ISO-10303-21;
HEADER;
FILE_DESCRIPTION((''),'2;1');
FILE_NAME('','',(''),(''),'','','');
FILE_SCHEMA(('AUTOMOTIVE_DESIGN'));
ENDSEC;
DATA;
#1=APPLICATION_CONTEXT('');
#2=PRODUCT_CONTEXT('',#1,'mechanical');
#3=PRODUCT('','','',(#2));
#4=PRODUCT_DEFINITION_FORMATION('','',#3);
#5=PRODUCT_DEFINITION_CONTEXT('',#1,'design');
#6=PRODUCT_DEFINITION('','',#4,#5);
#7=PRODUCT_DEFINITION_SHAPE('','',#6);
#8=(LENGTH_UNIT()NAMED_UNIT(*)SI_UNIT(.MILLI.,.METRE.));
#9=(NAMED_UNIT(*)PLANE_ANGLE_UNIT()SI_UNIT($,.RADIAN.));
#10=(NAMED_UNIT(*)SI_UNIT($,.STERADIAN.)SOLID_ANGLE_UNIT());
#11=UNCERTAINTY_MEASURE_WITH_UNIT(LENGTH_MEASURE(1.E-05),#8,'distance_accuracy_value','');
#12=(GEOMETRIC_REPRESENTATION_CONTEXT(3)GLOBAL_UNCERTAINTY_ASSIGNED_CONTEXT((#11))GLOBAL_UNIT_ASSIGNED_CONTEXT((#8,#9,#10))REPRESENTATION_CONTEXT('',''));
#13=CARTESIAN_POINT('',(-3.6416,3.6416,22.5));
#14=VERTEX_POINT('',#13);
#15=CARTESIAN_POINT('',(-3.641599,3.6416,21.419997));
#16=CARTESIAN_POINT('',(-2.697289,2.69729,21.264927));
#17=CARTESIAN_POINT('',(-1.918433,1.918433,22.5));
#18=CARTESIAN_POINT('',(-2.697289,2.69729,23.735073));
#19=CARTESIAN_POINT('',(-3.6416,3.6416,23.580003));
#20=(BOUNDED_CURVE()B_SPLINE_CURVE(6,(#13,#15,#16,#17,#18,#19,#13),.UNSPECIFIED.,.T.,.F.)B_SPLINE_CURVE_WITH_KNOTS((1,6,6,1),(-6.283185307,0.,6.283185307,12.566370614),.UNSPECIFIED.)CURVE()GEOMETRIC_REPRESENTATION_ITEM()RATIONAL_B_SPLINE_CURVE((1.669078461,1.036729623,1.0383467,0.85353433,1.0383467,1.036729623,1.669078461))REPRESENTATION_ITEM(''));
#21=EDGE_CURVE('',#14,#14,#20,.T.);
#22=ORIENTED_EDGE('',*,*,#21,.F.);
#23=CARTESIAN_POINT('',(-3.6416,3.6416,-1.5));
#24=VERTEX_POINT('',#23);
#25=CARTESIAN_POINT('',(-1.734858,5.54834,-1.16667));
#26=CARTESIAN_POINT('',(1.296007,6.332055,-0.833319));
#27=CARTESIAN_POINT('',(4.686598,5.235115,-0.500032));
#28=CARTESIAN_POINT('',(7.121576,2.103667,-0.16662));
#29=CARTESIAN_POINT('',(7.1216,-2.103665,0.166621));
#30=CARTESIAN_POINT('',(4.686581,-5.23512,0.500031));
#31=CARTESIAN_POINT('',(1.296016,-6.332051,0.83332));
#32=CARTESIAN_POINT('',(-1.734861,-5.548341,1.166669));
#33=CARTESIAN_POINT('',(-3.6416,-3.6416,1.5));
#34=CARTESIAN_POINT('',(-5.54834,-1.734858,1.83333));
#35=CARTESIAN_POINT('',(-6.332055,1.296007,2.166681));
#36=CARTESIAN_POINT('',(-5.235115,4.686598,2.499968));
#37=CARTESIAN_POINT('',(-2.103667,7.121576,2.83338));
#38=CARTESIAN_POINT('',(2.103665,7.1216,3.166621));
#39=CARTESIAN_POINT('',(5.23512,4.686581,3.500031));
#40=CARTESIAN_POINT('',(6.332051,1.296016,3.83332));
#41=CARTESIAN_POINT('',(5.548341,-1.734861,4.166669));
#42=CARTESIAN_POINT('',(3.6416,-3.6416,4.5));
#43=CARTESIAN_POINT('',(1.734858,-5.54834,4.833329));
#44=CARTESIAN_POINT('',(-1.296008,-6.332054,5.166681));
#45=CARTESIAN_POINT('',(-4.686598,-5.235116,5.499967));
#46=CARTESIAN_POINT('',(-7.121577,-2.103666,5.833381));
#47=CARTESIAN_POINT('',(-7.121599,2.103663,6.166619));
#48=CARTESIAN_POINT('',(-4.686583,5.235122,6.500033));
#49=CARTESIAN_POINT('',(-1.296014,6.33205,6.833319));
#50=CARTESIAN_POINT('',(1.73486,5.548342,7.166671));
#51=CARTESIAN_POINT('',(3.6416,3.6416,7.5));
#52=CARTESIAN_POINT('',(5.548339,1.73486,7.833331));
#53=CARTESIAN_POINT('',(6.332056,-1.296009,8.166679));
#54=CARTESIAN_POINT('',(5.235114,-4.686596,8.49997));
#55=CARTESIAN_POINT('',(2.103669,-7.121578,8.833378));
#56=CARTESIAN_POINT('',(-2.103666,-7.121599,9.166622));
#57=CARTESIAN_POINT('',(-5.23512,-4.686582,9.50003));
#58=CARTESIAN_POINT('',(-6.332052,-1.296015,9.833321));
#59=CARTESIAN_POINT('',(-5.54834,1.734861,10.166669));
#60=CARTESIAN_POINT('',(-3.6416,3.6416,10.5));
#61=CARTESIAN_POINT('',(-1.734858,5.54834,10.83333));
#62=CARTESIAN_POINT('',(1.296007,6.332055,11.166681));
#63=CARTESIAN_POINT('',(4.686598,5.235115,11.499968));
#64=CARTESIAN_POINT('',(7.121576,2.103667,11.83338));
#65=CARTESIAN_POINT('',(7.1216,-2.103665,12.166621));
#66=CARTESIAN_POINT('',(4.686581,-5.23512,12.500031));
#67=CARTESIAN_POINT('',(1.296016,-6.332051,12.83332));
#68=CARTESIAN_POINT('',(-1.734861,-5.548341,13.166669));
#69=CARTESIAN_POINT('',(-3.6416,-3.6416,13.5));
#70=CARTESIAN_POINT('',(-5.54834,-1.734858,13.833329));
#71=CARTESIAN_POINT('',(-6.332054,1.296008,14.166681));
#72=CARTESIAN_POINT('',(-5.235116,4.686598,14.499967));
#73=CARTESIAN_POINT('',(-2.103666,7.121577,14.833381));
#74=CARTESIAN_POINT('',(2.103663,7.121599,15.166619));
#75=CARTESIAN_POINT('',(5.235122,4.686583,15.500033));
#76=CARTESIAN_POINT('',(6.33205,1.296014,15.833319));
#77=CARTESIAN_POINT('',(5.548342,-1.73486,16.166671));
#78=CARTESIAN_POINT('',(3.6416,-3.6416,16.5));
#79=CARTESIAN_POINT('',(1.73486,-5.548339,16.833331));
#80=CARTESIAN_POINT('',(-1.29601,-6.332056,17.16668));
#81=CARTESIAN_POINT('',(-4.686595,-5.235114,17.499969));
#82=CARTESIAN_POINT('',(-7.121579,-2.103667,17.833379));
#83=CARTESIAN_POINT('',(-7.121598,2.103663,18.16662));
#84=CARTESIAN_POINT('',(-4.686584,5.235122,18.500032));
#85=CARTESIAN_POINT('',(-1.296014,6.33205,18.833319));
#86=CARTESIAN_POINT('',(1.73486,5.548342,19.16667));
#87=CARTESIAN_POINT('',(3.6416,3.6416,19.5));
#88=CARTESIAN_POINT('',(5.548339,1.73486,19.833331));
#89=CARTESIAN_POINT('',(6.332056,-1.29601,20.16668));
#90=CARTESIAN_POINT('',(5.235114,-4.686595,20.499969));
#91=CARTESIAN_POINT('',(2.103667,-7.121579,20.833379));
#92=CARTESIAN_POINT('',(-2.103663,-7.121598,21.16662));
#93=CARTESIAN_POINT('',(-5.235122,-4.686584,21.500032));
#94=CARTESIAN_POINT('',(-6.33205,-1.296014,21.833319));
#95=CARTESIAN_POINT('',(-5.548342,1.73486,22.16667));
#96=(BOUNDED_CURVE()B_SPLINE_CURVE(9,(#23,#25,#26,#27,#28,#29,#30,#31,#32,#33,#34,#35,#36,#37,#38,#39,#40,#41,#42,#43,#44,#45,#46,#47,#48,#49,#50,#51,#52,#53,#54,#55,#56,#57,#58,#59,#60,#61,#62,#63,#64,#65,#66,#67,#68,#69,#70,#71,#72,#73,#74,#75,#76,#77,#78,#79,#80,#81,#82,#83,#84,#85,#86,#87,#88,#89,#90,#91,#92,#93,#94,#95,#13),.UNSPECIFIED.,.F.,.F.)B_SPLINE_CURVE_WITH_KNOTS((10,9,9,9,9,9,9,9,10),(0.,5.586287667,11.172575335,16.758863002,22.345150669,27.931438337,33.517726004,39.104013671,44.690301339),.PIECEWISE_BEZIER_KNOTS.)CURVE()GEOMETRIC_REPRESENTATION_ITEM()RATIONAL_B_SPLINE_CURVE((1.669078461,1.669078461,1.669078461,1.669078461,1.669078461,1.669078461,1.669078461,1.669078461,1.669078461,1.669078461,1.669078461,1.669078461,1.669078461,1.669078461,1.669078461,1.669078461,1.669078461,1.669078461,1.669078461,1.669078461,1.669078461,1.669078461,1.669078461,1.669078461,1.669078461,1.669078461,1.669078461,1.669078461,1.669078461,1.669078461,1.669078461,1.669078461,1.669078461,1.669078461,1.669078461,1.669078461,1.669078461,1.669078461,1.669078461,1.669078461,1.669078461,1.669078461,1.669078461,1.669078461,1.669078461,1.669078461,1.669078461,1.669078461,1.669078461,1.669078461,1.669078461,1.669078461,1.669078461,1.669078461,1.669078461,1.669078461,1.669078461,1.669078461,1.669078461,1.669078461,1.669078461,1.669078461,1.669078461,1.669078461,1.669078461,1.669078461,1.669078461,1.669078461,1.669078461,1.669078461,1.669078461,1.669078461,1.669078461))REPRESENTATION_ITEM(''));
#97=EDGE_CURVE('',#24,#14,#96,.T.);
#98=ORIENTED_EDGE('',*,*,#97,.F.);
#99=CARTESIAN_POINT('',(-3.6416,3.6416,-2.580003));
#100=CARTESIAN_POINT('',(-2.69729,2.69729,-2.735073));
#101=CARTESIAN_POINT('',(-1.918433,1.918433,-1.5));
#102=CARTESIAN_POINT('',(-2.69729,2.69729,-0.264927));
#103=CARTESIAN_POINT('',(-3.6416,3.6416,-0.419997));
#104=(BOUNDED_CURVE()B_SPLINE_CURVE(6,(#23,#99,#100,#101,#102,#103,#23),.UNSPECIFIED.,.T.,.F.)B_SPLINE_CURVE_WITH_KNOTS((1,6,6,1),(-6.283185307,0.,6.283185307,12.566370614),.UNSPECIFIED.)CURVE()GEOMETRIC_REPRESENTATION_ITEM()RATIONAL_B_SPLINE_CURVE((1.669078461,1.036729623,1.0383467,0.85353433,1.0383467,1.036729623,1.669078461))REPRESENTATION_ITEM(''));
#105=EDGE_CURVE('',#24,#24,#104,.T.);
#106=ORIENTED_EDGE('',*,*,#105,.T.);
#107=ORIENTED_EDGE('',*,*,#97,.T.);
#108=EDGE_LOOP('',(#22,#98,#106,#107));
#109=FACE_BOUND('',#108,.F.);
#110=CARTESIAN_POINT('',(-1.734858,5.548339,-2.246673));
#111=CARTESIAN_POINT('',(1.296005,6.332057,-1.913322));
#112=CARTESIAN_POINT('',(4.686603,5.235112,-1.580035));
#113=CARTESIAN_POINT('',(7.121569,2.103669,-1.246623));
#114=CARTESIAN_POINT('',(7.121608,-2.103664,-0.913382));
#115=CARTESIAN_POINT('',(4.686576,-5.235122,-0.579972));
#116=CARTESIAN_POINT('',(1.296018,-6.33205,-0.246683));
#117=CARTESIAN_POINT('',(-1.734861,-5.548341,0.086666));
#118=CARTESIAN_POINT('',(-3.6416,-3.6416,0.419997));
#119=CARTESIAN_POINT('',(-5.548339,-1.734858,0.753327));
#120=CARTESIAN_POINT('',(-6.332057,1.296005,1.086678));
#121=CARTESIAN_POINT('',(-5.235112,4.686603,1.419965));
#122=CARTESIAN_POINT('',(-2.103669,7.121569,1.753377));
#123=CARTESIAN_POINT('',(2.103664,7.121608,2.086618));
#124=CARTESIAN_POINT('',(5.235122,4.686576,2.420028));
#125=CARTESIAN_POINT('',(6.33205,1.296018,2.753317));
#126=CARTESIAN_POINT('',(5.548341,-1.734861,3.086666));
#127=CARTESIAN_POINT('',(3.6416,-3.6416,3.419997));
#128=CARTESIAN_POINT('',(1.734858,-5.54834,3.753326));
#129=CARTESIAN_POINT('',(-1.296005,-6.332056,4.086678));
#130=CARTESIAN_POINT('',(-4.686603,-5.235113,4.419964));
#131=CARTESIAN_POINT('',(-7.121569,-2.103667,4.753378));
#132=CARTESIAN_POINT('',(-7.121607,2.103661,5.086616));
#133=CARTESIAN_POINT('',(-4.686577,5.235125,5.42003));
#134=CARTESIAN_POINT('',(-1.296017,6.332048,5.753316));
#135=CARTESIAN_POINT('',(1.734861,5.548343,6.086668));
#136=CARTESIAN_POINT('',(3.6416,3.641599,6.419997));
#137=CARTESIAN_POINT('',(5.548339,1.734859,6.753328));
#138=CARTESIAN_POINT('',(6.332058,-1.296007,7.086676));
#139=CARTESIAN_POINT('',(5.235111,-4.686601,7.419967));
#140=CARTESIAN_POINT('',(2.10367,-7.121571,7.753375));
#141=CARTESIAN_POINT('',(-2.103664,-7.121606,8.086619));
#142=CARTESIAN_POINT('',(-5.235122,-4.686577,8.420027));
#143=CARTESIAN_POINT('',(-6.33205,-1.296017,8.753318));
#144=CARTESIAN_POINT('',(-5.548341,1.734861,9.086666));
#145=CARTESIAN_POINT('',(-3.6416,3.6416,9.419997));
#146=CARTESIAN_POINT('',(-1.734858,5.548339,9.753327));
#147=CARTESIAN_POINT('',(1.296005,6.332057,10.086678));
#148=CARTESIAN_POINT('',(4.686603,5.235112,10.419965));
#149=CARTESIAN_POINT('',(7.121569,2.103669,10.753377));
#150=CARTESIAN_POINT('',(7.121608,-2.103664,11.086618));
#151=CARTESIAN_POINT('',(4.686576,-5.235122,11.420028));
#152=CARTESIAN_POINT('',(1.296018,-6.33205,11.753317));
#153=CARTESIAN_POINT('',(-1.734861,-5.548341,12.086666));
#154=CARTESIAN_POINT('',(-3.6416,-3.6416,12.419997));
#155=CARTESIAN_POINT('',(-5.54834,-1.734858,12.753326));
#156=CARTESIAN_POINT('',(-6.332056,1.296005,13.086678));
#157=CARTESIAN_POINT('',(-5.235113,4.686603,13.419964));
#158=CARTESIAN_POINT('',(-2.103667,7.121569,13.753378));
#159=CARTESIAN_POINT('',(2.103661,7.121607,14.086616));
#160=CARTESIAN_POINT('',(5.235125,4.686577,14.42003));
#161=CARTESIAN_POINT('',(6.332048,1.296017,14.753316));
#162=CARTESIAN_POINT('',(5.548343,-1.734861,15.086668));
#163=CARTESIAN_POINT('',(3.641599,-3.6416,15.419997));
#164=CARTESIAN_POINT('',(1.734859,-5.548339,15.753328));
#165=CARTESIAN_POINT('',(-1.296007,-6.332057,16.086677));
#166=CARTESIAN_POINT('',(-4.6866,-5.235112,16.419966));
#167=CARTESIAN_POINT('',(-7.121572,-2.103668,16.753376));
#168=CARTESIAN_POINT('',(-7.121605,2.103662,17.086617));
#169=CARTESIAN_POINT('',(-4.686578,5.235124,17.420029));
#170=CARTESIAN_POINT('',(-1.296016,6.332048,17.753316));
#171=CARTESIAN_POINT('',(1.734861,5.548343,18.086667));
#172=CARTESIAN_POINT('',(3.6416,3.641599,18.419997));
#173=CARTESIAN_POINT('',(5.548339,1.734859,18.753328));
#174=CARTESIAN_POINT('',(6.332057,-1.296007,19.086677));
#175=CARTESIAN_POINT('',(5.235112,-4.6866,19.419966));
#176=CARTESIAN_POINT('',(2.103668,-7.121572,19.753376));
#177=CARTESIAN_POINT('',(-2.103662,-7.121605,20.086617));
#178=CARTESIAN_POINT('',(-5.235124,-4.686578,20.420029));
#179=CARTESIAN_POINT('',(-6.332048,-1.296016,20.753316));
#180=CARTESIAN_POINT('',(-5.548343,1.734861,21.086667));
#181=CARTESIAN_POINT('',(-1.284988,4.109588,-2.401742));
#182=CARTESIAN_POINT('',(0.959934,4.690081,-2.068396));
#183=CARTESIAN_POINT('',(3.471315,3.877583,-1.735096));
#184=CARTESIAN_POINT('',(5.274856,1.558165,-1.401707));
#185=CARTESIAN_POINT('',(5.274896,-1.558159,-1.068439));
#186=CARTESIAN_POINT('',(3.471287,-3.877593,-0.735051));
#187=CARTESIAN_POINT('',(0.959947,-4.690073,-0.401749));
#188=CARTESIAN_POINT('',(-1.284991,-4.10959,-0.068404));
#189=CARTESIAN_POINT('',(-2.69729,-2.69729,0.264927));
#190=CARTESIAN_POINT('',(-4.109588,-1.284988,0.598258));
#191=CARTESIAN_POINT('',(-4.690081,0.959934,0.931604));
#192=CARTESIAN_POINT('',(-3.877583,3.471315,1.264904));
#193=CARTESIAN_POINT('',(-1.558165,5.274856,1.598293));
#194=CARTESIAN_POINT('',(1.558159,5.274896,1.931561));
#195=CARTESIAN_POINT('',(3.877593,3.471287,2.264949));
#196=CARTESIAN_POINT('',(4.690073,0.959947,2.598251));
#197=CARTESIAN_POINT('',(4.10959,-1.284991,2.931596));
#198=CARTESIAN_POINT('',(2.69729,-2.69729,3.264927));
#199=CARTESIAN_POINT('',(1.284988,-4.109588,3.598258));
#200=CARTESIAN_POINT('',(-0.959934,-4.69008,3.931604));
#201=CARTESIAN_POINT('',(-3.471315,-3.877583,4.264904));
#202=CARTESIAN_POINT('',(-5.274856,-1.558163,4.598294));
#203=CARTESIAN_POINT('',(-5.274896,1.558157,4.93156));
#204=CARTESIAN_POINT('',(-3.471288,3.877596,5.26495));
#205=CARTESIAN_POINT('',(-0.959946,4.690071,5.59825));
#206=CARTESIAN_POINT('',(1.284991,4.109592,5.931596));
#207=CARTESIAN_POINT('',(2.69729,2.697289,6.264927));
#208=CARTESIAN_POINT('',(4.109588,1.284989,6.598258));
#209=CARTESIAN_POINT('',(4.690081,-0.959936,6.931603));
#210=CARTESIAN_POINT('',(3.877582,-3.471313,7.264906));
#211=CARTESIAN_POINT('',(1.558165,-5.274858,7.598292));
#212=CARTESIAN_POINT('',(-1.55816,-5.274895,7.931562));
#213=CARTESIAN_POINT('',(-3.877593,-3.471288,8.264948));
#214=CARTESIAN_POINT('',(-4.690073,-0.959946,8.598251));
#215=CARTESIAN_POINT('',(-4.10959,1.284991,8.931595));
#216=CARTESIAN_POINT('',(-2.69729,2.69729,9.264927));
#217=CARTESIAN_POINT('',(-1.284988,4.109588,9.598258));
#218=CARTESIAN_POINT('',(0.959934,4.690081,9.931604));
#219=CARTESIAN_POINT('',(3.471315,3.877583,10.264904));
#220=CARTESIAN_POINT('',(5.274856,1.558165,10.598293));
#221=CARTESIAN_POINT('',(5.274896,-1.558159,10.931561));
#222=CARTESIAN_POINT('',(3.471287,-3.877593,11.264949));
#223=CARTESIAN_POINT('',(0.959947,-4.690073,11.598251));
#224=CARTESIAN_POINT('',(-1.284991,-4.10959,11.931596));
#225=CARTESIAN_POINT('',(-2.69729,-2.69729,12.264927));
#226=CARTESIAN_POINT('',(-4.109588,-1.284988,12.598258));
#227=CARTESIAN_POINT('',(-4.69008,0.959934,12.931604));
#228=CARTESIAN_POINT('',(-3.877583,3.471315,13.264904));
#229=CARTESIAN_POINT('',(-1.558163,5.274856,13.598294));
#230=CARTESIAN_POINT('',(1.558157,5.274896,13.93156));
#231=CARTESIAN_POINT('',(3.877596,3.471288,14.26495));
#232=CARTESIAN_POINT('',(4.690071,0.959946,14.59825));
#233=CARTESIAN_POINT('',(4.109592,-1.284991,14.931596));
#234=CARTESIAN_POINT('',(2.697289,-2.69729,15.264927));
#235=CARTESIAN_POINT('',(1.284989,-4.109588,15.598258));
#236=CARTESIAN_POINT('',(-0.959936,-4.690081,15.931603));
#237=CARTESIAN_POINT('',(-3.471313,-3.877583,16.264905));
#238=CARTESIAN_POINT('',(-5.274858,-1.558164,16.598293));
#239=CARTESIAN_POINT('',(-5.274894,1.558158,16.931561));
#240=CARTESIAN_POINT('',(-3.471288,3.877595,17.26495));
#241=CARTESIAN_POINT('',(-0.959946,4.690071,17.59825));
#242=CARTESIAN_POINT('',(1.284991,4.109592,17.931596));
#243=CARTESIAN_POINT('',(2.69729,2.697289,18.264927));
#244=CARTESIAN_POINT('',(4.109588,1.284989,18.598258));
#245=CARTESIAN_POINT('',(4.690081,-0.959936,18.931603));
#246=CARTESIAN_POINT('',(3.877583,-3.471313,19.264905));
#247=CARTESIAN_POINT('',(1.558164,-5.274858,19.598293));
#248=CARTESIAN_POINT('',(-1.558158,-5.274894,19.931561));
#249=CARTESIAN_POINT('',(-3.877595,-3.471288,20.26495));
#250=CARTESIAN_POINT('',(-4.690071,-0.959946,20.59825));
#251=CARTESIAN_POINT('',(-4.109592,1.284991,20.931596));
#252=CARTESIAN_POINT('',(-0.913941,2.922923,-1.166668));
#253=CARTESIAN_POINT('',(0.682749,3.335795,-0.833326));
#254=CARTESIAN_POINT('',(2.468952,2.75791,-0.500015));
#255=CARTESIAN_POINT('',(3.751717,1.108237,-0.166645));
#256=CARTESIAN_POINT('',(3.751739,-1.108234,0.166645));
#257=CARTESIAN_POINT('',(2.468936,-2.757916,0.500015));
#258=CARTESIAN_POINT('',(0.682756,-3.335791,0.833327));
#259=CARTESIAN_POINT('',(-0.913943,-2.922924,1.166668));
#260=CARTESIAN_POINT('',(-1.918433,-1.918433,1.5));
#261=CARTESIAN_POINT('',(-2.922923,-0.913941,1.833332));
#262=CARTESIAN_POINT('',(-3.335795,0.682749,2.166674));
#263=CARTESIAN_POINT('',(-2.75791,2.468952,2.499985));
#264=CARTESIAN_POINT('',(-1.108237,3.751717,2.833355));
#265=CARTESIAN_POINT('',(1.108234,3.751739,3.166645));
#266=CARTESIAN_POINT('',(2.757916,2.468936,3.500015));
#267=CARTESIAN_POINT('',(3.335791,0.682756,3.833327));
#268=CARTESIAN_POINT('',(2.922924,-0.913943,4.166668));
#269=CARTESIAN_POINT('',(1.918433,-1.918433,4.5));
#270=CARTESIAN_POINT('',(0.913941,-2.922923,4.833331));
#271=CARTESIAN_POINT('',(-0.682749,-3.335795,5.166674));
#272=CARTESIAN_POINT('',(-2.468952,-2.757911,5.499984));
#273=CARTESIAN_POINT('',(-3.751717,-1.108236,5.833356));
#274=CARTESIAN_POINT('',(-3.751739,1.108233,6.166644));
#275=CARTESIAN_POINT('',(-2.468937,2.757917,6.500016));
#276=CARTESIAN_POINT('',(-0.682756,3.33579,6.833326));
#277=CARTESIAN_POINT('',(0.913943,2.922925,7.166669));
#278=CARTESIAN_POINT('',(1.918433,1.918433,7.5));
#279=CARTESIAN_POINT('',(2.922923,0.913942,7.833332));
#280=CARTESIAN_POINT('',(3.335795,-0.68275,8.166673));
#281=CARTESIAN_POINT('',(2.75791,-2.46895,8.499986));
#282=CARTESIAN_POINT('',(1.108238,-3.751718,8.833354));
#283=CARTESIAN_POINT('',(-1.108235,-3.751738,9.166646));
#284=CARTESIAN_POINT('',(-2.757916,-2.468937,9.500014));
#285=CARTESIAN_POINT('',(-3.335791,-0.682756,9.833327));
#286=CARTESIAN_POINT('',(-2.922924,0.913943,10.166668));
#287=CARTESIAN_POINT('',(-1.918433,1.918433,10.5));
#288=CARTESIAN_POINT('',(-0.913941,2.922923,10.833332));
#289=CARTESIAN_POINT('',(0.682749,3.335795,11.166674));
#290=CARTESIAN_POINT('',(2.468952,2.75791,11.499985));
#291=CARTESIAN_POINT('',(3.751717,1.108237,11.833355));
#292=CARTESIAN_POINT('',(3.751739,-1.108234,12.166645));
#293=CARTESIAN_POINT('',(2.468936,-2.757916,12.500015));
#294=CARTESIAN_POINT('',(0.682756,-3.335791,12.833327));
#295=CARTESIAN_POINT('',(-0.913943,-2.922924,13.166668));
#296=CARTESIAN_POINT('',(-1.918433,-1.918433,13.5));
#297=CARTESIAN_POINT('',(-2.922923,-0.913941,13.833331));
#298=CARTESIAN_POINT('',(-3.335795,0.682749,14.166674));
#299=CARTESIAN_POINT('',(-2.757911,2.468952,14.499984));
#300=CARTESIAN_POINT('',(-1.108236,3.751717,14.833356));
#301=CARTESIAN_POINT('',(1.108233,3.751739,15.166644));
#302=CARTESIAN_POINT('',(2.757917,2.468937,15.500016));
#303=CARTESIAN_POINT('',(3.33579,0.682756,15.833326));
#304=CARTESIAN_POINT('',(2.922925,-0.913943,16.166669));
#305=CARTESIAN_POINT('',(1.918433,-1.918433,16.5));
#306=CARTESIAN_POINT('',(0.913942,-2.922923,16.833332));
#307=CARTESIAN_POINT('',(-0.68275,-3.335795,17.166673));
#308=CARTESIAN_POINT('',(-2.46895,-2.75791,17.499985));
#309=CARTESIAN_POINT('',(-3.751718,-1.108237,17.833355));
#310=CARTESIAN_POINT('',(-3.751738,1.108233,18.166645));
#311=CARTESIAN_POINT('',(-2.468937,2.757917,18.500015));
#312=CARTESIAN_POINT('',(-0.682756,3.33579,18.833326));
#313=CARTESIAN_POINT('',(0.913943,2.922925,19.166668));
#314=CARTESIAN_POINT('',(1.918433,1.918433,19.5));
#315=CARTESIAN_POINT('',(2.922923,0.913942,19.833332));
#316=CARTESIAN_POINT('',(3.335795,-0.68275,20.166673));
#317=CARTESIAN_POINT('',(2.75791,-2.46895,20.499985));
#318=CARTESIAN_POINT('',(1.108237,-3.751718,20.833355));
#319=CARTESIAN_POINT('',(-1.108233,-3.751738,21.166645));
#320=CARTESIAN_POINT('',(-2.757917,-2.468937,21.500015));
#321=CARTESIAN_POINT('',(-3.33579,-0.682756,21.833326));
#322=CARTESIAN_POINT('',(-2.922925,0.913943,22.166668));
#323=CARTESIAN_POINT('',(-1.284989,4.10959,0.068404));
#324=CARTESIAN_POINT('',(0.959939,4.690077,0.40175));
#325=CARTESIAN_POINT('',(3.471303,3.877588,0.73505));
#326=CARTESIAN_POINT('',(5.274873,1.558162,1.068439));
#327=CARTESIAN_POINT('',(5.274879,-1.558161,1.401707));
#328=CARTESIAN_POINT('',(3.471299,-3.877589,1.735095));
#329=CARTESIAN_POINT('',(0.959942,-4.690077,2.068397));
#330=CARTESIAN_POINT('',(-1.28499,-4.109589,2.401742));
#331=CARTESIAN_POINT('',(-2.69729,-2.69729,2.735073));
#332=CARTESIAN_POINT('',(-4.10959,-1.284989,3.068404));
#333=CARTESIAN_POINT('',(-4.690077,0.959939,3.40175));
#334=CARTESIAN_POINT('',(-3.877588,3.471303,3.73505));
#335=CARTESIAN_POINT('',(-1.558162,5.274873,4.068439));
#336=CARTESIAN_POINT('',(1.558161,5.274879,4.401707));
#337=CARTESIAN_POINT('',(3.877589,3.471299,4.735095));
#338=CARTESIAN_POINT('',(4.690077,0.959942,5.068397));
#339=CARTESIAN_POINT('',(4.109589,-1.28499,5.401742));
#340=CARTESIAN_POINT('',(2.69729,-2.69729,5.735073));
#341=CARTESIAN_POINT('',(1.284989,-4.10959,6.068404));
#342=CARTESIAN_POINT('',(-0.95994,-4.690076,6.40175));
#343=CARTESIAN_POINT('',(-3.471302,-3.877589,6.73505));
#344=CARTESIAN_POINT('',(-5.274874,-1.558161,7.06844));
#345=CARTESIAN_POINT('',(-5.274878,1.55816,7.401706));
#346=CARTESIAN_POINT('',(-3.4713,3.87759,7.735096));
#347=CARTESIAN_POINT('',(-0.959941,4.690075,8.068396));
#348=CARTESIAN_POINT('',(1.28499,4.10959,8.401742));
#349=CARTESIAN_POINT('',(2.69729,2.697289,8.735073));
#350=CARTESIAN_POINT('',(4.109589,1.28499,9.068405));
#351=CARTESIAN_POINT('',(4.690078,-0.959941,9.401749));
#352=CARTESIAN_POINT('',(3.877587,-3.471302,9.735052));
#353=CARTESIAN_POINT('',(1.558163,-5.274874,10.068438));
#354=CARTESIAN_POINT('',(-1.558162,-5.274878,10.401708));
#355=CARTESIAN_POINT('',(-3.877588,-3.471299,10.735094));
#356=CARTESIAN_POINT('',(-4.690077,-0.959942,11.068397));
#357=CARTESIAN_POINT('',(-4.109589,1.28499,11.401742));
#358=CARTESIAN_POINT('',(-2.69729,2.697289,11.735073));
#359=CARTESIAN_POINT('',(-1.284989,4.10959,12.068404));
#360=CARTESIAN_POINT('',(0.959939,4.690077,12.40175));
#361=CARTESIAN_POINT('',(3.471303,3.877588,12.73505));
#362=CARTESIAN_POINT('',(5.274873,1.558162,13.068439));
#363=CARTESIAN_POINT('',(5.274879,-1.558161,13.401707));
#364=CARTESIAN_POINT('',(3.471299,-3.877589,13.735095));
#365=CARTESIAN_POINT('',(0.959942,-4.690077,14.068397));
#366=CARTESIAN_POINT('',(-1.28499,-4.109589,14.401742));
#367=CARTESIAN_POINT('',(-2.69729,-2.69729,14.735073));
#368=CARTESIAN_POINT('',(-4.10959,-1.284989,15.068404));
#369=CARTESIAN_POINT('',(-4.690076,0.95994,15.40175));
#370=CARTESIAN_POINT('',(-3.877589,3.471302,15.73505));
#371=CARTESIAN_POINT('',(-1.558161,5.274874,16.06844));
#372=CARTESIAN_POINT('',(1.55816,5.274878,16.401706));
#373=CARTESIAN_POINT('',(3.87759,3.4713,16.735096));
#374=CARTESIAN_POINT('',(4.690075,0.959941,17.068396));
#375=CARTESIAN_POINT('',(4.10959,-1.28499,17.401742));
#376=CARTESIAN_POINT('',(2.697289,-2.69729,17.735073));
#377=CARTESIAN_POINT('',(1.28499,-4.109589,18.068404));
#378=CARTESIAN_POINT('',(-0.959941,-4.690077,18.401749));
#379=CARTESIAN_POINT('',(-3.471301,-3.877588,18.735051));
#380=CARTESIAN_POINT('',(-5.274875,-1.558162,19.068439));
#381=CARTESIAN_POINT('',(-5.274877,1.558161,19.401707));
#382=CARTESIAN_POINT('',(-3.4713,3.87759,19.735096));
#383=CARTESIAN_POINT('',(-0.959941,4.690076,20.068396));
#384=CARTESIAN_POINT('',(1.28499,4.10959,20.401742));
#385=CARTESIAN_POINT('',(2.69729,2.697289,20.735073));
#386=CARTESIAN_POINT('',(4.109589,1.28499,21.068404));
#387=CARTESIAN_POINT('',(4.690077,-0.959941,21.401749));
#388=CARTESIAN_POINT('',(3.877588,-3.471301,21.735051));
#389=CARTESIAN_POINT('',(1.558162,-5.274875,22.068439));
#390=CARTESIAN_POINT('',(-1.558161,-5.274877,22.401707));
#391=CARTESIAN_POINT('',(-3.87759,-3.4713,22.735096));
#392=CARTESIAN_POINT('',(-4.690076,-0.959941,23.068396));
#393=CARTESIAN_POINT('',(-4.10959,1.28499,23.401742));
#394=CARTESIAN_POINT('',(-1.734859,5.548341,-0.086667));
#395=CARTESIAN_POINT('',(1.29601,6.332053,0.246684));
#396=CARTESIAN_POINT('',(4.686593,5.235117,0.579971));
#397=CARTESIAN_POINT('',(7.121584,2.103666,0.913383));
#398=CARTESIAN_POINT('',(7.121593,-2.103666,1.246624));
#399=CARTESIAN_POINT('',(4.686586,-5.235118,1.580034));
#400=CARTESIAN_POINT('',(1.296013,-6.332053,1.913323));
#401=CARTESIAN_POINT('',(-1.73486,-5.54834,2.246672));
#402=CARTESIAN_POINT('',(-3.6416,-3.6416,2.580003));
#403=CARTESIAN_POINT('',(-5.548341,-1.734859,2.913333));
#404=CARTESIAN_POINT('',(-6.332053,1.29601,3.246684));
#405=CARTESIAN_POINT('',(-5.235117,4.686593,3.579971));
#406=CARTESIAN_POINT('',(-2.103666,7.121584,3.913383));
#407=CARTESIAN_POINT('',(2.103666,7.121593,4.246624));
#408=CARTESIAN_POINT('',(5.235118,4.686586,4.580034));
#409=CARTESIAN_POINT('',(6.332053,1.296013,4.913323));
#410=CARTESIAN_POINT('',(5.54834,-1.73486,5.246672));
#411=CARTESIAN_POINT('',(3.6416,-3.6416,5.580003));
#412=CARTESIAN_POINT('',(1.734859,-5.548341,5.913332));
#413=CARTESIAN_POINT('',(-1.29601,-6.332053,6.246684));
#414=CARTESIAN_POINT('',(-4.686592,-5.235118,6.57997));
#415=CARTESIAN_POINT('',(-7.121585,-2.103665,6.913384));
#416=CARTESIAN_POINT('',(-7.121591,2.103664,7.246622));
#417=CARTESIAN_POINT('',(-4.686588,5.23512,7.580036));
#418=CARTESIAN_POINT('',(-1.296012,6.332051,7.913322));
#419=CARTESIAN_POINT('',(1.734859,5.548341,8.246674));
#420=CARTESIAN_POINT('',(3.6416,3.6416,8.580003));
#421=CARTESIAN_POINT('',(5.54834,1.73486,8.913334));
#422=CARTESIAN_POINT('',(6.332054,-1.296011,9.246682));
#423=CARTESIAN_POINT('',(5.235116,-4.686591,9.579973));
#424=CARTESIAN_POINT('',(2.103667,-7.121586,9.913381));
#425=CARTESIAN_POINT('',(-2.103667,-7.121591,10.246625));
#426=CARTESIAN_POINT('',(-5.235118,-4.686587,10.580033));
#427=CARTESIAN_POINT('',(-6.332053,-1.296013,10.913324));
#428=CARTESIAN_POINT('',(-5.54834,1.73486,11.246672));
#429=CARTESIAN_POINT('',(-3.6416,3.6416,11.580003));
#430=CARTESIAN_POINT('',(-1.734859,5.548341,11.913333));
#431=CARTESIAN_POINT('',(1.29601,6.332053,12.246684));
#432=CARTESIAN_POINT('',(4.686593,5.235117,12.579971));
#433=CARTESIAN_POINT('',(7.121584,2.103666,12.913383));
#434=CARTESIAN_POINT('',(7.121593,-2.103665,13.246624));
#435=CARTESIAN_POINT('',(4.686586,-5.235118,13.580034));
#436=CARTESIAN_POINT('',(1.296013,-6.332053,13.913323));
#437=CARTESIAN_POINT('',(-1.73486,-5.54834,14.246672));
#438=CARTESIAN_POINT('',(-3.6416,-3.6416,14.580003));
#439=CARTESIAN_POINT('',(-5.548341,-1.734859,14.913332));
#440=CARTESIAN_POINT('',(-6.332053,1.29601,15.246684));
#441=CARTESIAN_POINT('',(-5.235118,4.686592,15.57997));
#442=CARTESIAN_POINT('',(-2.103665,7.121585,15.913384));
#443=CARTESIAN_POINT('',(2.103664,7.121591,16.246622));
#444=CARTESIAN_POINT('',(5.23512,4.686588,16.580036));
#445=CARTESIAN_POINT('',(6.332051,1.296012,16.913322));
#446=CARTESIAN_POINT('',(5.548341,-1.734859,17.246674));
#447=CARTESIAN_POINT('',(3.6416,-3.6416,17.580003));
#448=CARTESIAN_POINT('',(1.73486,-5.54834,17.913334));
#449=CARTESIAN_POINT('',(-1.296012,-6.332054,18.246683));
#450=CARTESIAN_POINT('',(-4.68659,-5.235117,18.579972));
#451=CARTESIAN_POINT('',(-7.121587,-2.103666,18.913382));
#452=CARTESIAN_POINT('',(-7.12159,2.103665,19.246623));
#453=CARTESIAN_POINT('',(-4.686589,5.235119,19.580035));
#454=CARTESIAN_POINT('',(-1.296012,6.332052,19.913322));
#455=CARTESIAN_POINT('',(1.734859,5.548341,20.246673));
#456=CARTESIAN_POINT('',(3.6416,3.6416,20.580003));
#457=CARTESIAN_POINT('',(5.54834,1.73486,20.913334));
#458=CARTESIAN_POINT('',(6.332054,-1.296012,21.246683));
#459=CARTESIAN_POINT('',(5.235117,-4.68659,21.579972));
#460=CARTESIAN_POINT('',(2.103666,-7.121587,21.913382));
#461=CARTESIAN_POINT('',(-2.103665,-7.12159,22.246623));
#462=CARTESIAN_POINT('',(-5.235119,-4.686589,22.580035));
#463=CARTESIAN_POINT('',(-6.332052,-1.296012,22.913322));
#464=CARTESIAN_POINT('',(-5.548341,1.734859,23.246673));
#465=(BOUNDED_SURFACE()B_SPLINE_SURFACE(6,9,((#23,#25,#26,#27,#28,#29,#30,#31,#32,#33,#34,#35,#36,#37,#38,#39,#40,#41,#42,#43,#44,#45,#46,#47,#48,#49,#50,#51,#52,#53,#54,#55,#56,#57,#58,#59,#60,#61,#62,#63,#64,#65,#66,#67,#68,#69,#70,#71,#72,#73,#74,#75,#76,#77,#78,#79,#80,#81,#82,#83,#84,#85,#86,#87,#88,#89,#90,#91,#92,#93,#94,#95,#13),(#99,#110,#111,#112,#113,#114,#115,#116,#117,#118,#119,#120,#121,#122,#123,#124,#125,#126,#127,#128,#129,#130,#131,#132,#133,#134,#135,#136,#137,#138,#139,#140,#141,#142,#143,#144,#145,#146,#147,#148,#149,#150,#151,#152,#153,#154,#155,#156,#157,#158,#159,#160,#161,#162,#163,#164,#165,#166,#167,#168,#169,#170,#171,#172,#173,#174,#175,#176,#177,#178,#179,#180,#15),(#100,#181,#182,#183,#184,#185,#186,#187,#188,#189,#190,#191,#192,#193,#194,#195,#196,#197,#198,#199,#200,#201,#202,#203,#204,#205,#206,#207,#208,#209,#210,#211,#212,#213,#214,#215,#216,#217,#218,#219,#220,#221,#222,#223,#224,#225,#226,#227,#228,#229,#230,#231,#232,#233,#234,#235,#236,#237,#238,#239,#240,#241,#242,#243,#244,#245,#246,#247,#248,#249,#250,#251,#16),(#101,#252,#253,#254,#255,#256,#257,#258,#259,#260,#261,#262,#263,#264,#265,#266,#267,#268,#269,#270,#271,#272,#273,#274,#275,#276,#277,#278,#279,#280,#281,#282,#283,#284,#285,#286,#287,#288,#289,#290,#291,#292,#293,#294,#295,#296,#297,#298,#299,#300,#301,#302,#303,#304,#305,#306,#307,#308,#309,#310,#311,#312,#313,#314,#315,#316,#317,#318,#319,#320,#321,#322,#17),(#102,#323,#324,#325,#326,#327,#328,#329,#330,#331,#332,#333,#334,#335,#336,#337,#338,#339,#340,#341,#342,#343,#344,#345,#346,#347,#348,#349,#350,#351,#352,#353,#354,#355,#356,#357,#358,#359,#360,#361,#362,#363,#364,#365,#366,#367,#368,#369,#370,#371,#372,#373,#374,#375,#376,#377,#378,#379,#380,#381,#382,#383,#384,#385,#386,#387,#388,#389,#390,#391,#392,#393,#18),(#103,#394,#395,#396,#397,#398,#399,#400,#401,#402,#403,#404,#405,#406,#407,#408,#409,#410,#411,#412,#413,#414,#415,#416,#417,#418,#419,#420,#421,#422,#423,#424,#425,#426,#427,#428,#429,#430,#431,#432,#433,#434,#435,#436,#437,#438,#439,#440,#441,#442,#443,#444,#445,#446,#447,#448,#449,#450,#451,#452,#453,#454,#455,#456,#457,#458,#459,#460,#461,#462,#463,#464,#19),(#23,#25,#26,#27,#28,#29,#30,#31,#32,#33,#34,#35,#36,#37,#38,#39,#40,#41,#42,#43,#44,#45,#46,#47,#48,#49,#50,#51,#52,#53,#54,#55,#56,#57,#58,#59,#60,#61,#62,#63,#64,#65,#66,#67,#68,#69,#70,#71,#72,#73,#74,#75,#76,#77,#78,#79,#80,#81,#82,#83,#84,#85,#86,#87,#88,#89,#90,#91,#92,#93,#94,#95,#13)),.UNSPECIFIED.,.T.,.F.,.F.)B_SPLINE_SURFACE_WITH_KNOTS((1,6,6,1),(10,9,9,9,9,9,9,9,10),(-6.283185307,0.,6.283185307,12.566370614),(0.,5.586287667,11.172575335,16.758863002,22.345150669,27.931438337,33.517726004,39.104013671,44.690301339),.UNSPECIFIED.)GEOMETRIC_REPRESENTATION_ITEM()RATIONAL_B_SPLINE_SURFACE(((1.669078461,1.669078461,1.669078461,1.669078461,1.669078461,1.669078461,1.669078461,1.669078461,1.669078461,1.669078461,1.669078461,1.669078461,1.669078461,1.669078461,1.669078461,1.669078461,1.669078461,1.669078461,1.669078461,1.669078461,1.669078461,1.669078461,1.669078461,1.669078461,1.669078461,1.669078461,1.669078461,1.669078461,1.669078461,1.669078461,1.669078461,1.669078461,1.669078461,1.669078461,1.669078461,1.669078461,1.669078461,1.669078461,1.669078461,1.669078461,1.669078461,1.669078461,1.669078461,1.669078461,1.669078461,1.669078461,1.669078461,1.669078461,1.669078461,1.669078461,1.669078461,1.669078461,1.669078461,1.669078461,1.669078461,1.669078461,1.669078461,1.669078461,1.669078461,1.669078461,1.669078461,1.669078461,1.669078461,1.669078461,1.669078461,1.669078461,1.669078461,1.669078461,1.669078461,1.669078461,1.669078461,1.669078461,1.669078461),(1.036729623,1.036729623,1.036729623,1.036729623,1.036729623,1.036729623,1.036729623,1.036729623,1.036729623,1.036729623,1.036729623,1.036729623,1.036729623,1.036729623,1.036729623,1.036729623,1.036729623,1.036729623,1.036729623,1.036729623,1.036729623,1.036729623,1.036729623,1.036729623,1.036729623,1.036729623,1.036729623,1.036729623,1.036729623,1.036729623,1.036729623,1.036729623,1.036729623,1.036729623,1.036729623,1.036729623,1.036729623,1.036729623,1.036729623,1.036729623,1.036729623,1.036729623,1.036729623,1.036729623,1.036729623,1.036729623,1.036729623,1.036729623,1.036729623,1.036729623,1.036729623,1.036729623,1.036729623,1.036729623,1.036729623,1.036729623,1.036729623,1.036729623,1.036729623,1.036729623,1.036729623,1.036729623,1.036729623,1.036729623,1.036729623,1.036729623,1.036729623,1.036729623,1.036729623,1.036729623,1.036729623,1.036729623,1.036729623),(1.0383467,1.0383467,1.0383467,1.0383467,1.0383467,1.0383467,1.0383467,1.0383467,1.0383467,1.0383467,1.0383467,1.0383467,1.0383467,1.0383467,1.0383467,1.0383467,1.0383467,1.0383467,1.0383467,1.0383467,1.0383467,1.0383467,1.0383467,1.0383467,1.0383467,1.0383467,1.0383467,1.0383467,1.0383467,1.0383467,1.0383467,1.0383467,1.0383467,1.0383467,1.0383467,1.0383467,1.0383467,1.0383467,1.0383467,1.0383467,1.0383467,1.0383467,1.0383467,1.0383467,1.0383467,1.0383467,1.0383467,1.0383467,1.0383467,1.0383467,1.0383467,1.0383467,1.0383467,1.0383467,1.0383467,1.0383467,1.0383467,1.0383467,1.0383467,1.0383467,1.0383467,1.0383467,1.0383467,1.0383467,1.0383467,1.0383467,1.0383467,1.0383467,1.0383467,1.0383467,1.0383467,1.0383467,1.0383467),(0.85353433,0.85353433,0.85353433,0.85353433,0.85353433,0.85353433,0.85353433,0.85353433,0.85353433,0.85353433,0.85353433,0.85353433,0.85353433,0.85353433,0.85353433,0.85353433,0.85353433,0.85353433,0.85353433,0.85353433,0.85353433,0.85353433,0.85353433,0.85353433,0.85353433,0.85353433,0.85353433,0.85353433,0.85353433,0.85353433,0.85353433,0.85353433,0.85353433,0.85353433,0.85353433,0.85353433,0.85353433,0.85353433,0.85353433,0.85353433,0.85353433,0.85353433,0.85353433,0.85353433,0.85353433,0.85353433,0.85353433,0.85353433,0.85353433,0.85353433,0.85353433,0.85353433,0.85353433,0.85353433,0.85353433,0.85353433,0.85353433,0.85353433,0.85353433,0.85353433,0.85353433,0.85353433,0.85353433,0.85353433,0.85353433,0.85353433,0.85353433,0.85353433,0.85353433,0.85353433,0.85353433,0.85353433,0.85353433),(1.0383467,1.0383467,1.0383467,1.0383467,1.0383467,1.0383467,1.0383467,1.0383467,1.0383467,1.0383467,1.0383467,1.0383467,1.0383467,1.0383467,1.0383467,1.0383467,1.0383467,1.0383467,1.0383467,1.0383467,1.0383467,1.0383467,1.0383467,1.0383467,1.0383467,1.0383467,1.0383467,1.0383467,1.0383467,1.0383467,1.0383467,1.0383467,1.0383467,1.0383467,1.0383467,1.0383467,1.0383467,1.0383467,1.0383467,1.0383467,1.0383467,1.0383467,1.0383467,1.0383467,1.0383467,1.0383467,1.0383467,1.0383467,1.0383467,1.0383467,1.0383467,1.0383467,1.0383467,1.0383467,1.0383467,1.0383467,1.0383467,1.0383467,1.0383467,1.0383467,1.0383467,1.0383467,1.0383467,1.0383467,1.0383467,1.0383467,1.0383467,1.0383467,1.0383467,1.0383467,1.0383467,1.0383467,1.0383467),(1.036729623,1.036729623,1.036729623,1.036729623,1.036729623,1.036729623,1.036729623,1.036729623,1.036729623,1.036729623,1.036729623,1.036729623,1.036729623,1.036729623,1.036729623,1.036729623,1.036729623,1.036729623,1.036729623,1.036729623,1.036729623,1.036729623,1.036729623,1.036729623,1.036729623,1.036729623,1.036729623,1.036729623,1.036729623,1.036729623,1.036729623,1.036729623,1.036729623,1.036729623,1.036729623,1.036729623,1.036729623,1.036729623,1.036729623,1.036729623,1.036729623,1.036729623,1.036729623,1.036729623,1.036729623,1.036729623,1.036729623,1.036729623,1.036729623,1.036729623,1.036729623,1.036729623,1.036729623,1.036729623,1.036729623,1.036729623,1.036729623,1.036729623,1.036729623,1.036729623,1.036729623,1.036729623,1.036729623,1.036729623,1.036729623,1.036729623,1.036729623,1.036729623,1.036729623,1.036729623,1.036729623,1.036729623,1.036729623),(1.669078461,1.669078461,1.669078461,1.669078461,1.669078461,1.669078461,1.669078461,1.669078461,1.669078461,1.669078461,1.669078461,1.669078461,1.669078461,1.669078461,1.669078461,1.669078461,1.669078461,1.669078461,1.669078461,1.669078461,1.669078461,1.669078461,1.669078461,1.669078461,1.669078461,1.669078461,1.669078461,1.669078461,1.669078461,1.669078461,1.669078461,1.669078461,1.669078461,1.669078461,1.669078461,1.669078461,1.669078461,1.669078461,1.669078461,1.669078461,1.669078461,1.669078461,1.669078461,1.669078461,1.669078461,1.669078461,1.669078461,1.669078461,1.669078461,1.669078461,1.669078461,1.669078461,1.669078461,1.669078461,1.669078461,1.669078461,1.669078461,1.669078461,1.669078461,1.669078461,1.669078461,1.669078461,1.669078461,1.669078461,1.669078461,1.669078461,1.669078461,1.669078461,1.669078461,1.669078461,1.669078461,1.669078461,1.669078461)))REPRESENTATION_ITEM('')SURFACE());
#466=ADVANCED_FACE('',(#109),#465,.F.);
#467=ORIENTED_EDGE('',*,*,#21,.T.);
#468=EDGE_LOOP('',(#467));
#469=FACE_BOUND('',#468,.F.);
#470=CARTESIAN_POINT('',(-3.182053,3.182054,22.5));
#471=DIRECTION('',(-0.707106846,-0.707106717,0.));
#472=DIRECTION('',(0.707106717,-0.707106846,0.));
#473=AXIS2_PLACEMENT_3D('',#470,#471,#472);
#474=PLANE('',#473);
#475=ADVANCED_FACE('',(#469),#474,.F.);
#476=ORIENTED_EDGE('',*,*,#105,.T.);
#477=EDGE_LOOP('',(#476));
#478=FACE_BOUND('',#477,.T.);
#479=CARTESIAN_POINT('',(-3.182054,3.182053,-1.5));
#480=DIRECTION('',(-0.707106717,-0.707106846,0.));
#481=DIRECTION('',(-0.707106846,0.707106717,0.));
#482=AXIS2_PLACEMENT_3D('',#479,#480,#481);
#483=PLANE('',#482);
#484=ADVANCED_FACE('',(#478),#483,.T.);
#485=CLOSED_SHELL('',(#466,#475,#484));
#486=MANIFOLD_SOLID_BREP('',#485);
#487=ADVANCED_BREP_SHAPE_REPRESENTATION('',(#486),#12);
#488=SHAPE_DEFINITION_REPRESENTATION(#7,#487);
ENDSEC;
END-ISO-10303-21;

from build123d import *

# Parameters (mm, degrees)
BALAYAGE1_PITCH       = 4
BALAYAGE1_HEIGHT      = 24
BALAYAGE1_RADIUS      = 0.5
BALAYAGE1_START_ANGLE = 135
ESQUISSE3_R           = 0.65


with BuildPart() as part:
    # Balayage1: sweep along a helix
    with BuildLine() as balayage1_path:
        add(Helix(BALAYAGE1_PITCH, BALAYAGE1_HEIGHT, BALAYAGE1_RADIUS, center=(0, 0, 0), direction=(0, 0, 1), lefthand=True, mode=Mode.PRIVATE).rotate(Axis((0, 0, 0), (0, 0, 1)), BALAYAGE1_START_ANGLE))
    # Esquisse3 → Balayage1 (sweep)
    with BuildSketch(Plane(origin=(0, 0, 0), x_dir=(1, 0, 0), z_dir=(0, 1, 0))):
        with Locations((4.5, 0)):
            Circle(ESQUISSE3_R)
    sweep(path=balayage1_path.line, is_frenet=True)


solid = part.part
